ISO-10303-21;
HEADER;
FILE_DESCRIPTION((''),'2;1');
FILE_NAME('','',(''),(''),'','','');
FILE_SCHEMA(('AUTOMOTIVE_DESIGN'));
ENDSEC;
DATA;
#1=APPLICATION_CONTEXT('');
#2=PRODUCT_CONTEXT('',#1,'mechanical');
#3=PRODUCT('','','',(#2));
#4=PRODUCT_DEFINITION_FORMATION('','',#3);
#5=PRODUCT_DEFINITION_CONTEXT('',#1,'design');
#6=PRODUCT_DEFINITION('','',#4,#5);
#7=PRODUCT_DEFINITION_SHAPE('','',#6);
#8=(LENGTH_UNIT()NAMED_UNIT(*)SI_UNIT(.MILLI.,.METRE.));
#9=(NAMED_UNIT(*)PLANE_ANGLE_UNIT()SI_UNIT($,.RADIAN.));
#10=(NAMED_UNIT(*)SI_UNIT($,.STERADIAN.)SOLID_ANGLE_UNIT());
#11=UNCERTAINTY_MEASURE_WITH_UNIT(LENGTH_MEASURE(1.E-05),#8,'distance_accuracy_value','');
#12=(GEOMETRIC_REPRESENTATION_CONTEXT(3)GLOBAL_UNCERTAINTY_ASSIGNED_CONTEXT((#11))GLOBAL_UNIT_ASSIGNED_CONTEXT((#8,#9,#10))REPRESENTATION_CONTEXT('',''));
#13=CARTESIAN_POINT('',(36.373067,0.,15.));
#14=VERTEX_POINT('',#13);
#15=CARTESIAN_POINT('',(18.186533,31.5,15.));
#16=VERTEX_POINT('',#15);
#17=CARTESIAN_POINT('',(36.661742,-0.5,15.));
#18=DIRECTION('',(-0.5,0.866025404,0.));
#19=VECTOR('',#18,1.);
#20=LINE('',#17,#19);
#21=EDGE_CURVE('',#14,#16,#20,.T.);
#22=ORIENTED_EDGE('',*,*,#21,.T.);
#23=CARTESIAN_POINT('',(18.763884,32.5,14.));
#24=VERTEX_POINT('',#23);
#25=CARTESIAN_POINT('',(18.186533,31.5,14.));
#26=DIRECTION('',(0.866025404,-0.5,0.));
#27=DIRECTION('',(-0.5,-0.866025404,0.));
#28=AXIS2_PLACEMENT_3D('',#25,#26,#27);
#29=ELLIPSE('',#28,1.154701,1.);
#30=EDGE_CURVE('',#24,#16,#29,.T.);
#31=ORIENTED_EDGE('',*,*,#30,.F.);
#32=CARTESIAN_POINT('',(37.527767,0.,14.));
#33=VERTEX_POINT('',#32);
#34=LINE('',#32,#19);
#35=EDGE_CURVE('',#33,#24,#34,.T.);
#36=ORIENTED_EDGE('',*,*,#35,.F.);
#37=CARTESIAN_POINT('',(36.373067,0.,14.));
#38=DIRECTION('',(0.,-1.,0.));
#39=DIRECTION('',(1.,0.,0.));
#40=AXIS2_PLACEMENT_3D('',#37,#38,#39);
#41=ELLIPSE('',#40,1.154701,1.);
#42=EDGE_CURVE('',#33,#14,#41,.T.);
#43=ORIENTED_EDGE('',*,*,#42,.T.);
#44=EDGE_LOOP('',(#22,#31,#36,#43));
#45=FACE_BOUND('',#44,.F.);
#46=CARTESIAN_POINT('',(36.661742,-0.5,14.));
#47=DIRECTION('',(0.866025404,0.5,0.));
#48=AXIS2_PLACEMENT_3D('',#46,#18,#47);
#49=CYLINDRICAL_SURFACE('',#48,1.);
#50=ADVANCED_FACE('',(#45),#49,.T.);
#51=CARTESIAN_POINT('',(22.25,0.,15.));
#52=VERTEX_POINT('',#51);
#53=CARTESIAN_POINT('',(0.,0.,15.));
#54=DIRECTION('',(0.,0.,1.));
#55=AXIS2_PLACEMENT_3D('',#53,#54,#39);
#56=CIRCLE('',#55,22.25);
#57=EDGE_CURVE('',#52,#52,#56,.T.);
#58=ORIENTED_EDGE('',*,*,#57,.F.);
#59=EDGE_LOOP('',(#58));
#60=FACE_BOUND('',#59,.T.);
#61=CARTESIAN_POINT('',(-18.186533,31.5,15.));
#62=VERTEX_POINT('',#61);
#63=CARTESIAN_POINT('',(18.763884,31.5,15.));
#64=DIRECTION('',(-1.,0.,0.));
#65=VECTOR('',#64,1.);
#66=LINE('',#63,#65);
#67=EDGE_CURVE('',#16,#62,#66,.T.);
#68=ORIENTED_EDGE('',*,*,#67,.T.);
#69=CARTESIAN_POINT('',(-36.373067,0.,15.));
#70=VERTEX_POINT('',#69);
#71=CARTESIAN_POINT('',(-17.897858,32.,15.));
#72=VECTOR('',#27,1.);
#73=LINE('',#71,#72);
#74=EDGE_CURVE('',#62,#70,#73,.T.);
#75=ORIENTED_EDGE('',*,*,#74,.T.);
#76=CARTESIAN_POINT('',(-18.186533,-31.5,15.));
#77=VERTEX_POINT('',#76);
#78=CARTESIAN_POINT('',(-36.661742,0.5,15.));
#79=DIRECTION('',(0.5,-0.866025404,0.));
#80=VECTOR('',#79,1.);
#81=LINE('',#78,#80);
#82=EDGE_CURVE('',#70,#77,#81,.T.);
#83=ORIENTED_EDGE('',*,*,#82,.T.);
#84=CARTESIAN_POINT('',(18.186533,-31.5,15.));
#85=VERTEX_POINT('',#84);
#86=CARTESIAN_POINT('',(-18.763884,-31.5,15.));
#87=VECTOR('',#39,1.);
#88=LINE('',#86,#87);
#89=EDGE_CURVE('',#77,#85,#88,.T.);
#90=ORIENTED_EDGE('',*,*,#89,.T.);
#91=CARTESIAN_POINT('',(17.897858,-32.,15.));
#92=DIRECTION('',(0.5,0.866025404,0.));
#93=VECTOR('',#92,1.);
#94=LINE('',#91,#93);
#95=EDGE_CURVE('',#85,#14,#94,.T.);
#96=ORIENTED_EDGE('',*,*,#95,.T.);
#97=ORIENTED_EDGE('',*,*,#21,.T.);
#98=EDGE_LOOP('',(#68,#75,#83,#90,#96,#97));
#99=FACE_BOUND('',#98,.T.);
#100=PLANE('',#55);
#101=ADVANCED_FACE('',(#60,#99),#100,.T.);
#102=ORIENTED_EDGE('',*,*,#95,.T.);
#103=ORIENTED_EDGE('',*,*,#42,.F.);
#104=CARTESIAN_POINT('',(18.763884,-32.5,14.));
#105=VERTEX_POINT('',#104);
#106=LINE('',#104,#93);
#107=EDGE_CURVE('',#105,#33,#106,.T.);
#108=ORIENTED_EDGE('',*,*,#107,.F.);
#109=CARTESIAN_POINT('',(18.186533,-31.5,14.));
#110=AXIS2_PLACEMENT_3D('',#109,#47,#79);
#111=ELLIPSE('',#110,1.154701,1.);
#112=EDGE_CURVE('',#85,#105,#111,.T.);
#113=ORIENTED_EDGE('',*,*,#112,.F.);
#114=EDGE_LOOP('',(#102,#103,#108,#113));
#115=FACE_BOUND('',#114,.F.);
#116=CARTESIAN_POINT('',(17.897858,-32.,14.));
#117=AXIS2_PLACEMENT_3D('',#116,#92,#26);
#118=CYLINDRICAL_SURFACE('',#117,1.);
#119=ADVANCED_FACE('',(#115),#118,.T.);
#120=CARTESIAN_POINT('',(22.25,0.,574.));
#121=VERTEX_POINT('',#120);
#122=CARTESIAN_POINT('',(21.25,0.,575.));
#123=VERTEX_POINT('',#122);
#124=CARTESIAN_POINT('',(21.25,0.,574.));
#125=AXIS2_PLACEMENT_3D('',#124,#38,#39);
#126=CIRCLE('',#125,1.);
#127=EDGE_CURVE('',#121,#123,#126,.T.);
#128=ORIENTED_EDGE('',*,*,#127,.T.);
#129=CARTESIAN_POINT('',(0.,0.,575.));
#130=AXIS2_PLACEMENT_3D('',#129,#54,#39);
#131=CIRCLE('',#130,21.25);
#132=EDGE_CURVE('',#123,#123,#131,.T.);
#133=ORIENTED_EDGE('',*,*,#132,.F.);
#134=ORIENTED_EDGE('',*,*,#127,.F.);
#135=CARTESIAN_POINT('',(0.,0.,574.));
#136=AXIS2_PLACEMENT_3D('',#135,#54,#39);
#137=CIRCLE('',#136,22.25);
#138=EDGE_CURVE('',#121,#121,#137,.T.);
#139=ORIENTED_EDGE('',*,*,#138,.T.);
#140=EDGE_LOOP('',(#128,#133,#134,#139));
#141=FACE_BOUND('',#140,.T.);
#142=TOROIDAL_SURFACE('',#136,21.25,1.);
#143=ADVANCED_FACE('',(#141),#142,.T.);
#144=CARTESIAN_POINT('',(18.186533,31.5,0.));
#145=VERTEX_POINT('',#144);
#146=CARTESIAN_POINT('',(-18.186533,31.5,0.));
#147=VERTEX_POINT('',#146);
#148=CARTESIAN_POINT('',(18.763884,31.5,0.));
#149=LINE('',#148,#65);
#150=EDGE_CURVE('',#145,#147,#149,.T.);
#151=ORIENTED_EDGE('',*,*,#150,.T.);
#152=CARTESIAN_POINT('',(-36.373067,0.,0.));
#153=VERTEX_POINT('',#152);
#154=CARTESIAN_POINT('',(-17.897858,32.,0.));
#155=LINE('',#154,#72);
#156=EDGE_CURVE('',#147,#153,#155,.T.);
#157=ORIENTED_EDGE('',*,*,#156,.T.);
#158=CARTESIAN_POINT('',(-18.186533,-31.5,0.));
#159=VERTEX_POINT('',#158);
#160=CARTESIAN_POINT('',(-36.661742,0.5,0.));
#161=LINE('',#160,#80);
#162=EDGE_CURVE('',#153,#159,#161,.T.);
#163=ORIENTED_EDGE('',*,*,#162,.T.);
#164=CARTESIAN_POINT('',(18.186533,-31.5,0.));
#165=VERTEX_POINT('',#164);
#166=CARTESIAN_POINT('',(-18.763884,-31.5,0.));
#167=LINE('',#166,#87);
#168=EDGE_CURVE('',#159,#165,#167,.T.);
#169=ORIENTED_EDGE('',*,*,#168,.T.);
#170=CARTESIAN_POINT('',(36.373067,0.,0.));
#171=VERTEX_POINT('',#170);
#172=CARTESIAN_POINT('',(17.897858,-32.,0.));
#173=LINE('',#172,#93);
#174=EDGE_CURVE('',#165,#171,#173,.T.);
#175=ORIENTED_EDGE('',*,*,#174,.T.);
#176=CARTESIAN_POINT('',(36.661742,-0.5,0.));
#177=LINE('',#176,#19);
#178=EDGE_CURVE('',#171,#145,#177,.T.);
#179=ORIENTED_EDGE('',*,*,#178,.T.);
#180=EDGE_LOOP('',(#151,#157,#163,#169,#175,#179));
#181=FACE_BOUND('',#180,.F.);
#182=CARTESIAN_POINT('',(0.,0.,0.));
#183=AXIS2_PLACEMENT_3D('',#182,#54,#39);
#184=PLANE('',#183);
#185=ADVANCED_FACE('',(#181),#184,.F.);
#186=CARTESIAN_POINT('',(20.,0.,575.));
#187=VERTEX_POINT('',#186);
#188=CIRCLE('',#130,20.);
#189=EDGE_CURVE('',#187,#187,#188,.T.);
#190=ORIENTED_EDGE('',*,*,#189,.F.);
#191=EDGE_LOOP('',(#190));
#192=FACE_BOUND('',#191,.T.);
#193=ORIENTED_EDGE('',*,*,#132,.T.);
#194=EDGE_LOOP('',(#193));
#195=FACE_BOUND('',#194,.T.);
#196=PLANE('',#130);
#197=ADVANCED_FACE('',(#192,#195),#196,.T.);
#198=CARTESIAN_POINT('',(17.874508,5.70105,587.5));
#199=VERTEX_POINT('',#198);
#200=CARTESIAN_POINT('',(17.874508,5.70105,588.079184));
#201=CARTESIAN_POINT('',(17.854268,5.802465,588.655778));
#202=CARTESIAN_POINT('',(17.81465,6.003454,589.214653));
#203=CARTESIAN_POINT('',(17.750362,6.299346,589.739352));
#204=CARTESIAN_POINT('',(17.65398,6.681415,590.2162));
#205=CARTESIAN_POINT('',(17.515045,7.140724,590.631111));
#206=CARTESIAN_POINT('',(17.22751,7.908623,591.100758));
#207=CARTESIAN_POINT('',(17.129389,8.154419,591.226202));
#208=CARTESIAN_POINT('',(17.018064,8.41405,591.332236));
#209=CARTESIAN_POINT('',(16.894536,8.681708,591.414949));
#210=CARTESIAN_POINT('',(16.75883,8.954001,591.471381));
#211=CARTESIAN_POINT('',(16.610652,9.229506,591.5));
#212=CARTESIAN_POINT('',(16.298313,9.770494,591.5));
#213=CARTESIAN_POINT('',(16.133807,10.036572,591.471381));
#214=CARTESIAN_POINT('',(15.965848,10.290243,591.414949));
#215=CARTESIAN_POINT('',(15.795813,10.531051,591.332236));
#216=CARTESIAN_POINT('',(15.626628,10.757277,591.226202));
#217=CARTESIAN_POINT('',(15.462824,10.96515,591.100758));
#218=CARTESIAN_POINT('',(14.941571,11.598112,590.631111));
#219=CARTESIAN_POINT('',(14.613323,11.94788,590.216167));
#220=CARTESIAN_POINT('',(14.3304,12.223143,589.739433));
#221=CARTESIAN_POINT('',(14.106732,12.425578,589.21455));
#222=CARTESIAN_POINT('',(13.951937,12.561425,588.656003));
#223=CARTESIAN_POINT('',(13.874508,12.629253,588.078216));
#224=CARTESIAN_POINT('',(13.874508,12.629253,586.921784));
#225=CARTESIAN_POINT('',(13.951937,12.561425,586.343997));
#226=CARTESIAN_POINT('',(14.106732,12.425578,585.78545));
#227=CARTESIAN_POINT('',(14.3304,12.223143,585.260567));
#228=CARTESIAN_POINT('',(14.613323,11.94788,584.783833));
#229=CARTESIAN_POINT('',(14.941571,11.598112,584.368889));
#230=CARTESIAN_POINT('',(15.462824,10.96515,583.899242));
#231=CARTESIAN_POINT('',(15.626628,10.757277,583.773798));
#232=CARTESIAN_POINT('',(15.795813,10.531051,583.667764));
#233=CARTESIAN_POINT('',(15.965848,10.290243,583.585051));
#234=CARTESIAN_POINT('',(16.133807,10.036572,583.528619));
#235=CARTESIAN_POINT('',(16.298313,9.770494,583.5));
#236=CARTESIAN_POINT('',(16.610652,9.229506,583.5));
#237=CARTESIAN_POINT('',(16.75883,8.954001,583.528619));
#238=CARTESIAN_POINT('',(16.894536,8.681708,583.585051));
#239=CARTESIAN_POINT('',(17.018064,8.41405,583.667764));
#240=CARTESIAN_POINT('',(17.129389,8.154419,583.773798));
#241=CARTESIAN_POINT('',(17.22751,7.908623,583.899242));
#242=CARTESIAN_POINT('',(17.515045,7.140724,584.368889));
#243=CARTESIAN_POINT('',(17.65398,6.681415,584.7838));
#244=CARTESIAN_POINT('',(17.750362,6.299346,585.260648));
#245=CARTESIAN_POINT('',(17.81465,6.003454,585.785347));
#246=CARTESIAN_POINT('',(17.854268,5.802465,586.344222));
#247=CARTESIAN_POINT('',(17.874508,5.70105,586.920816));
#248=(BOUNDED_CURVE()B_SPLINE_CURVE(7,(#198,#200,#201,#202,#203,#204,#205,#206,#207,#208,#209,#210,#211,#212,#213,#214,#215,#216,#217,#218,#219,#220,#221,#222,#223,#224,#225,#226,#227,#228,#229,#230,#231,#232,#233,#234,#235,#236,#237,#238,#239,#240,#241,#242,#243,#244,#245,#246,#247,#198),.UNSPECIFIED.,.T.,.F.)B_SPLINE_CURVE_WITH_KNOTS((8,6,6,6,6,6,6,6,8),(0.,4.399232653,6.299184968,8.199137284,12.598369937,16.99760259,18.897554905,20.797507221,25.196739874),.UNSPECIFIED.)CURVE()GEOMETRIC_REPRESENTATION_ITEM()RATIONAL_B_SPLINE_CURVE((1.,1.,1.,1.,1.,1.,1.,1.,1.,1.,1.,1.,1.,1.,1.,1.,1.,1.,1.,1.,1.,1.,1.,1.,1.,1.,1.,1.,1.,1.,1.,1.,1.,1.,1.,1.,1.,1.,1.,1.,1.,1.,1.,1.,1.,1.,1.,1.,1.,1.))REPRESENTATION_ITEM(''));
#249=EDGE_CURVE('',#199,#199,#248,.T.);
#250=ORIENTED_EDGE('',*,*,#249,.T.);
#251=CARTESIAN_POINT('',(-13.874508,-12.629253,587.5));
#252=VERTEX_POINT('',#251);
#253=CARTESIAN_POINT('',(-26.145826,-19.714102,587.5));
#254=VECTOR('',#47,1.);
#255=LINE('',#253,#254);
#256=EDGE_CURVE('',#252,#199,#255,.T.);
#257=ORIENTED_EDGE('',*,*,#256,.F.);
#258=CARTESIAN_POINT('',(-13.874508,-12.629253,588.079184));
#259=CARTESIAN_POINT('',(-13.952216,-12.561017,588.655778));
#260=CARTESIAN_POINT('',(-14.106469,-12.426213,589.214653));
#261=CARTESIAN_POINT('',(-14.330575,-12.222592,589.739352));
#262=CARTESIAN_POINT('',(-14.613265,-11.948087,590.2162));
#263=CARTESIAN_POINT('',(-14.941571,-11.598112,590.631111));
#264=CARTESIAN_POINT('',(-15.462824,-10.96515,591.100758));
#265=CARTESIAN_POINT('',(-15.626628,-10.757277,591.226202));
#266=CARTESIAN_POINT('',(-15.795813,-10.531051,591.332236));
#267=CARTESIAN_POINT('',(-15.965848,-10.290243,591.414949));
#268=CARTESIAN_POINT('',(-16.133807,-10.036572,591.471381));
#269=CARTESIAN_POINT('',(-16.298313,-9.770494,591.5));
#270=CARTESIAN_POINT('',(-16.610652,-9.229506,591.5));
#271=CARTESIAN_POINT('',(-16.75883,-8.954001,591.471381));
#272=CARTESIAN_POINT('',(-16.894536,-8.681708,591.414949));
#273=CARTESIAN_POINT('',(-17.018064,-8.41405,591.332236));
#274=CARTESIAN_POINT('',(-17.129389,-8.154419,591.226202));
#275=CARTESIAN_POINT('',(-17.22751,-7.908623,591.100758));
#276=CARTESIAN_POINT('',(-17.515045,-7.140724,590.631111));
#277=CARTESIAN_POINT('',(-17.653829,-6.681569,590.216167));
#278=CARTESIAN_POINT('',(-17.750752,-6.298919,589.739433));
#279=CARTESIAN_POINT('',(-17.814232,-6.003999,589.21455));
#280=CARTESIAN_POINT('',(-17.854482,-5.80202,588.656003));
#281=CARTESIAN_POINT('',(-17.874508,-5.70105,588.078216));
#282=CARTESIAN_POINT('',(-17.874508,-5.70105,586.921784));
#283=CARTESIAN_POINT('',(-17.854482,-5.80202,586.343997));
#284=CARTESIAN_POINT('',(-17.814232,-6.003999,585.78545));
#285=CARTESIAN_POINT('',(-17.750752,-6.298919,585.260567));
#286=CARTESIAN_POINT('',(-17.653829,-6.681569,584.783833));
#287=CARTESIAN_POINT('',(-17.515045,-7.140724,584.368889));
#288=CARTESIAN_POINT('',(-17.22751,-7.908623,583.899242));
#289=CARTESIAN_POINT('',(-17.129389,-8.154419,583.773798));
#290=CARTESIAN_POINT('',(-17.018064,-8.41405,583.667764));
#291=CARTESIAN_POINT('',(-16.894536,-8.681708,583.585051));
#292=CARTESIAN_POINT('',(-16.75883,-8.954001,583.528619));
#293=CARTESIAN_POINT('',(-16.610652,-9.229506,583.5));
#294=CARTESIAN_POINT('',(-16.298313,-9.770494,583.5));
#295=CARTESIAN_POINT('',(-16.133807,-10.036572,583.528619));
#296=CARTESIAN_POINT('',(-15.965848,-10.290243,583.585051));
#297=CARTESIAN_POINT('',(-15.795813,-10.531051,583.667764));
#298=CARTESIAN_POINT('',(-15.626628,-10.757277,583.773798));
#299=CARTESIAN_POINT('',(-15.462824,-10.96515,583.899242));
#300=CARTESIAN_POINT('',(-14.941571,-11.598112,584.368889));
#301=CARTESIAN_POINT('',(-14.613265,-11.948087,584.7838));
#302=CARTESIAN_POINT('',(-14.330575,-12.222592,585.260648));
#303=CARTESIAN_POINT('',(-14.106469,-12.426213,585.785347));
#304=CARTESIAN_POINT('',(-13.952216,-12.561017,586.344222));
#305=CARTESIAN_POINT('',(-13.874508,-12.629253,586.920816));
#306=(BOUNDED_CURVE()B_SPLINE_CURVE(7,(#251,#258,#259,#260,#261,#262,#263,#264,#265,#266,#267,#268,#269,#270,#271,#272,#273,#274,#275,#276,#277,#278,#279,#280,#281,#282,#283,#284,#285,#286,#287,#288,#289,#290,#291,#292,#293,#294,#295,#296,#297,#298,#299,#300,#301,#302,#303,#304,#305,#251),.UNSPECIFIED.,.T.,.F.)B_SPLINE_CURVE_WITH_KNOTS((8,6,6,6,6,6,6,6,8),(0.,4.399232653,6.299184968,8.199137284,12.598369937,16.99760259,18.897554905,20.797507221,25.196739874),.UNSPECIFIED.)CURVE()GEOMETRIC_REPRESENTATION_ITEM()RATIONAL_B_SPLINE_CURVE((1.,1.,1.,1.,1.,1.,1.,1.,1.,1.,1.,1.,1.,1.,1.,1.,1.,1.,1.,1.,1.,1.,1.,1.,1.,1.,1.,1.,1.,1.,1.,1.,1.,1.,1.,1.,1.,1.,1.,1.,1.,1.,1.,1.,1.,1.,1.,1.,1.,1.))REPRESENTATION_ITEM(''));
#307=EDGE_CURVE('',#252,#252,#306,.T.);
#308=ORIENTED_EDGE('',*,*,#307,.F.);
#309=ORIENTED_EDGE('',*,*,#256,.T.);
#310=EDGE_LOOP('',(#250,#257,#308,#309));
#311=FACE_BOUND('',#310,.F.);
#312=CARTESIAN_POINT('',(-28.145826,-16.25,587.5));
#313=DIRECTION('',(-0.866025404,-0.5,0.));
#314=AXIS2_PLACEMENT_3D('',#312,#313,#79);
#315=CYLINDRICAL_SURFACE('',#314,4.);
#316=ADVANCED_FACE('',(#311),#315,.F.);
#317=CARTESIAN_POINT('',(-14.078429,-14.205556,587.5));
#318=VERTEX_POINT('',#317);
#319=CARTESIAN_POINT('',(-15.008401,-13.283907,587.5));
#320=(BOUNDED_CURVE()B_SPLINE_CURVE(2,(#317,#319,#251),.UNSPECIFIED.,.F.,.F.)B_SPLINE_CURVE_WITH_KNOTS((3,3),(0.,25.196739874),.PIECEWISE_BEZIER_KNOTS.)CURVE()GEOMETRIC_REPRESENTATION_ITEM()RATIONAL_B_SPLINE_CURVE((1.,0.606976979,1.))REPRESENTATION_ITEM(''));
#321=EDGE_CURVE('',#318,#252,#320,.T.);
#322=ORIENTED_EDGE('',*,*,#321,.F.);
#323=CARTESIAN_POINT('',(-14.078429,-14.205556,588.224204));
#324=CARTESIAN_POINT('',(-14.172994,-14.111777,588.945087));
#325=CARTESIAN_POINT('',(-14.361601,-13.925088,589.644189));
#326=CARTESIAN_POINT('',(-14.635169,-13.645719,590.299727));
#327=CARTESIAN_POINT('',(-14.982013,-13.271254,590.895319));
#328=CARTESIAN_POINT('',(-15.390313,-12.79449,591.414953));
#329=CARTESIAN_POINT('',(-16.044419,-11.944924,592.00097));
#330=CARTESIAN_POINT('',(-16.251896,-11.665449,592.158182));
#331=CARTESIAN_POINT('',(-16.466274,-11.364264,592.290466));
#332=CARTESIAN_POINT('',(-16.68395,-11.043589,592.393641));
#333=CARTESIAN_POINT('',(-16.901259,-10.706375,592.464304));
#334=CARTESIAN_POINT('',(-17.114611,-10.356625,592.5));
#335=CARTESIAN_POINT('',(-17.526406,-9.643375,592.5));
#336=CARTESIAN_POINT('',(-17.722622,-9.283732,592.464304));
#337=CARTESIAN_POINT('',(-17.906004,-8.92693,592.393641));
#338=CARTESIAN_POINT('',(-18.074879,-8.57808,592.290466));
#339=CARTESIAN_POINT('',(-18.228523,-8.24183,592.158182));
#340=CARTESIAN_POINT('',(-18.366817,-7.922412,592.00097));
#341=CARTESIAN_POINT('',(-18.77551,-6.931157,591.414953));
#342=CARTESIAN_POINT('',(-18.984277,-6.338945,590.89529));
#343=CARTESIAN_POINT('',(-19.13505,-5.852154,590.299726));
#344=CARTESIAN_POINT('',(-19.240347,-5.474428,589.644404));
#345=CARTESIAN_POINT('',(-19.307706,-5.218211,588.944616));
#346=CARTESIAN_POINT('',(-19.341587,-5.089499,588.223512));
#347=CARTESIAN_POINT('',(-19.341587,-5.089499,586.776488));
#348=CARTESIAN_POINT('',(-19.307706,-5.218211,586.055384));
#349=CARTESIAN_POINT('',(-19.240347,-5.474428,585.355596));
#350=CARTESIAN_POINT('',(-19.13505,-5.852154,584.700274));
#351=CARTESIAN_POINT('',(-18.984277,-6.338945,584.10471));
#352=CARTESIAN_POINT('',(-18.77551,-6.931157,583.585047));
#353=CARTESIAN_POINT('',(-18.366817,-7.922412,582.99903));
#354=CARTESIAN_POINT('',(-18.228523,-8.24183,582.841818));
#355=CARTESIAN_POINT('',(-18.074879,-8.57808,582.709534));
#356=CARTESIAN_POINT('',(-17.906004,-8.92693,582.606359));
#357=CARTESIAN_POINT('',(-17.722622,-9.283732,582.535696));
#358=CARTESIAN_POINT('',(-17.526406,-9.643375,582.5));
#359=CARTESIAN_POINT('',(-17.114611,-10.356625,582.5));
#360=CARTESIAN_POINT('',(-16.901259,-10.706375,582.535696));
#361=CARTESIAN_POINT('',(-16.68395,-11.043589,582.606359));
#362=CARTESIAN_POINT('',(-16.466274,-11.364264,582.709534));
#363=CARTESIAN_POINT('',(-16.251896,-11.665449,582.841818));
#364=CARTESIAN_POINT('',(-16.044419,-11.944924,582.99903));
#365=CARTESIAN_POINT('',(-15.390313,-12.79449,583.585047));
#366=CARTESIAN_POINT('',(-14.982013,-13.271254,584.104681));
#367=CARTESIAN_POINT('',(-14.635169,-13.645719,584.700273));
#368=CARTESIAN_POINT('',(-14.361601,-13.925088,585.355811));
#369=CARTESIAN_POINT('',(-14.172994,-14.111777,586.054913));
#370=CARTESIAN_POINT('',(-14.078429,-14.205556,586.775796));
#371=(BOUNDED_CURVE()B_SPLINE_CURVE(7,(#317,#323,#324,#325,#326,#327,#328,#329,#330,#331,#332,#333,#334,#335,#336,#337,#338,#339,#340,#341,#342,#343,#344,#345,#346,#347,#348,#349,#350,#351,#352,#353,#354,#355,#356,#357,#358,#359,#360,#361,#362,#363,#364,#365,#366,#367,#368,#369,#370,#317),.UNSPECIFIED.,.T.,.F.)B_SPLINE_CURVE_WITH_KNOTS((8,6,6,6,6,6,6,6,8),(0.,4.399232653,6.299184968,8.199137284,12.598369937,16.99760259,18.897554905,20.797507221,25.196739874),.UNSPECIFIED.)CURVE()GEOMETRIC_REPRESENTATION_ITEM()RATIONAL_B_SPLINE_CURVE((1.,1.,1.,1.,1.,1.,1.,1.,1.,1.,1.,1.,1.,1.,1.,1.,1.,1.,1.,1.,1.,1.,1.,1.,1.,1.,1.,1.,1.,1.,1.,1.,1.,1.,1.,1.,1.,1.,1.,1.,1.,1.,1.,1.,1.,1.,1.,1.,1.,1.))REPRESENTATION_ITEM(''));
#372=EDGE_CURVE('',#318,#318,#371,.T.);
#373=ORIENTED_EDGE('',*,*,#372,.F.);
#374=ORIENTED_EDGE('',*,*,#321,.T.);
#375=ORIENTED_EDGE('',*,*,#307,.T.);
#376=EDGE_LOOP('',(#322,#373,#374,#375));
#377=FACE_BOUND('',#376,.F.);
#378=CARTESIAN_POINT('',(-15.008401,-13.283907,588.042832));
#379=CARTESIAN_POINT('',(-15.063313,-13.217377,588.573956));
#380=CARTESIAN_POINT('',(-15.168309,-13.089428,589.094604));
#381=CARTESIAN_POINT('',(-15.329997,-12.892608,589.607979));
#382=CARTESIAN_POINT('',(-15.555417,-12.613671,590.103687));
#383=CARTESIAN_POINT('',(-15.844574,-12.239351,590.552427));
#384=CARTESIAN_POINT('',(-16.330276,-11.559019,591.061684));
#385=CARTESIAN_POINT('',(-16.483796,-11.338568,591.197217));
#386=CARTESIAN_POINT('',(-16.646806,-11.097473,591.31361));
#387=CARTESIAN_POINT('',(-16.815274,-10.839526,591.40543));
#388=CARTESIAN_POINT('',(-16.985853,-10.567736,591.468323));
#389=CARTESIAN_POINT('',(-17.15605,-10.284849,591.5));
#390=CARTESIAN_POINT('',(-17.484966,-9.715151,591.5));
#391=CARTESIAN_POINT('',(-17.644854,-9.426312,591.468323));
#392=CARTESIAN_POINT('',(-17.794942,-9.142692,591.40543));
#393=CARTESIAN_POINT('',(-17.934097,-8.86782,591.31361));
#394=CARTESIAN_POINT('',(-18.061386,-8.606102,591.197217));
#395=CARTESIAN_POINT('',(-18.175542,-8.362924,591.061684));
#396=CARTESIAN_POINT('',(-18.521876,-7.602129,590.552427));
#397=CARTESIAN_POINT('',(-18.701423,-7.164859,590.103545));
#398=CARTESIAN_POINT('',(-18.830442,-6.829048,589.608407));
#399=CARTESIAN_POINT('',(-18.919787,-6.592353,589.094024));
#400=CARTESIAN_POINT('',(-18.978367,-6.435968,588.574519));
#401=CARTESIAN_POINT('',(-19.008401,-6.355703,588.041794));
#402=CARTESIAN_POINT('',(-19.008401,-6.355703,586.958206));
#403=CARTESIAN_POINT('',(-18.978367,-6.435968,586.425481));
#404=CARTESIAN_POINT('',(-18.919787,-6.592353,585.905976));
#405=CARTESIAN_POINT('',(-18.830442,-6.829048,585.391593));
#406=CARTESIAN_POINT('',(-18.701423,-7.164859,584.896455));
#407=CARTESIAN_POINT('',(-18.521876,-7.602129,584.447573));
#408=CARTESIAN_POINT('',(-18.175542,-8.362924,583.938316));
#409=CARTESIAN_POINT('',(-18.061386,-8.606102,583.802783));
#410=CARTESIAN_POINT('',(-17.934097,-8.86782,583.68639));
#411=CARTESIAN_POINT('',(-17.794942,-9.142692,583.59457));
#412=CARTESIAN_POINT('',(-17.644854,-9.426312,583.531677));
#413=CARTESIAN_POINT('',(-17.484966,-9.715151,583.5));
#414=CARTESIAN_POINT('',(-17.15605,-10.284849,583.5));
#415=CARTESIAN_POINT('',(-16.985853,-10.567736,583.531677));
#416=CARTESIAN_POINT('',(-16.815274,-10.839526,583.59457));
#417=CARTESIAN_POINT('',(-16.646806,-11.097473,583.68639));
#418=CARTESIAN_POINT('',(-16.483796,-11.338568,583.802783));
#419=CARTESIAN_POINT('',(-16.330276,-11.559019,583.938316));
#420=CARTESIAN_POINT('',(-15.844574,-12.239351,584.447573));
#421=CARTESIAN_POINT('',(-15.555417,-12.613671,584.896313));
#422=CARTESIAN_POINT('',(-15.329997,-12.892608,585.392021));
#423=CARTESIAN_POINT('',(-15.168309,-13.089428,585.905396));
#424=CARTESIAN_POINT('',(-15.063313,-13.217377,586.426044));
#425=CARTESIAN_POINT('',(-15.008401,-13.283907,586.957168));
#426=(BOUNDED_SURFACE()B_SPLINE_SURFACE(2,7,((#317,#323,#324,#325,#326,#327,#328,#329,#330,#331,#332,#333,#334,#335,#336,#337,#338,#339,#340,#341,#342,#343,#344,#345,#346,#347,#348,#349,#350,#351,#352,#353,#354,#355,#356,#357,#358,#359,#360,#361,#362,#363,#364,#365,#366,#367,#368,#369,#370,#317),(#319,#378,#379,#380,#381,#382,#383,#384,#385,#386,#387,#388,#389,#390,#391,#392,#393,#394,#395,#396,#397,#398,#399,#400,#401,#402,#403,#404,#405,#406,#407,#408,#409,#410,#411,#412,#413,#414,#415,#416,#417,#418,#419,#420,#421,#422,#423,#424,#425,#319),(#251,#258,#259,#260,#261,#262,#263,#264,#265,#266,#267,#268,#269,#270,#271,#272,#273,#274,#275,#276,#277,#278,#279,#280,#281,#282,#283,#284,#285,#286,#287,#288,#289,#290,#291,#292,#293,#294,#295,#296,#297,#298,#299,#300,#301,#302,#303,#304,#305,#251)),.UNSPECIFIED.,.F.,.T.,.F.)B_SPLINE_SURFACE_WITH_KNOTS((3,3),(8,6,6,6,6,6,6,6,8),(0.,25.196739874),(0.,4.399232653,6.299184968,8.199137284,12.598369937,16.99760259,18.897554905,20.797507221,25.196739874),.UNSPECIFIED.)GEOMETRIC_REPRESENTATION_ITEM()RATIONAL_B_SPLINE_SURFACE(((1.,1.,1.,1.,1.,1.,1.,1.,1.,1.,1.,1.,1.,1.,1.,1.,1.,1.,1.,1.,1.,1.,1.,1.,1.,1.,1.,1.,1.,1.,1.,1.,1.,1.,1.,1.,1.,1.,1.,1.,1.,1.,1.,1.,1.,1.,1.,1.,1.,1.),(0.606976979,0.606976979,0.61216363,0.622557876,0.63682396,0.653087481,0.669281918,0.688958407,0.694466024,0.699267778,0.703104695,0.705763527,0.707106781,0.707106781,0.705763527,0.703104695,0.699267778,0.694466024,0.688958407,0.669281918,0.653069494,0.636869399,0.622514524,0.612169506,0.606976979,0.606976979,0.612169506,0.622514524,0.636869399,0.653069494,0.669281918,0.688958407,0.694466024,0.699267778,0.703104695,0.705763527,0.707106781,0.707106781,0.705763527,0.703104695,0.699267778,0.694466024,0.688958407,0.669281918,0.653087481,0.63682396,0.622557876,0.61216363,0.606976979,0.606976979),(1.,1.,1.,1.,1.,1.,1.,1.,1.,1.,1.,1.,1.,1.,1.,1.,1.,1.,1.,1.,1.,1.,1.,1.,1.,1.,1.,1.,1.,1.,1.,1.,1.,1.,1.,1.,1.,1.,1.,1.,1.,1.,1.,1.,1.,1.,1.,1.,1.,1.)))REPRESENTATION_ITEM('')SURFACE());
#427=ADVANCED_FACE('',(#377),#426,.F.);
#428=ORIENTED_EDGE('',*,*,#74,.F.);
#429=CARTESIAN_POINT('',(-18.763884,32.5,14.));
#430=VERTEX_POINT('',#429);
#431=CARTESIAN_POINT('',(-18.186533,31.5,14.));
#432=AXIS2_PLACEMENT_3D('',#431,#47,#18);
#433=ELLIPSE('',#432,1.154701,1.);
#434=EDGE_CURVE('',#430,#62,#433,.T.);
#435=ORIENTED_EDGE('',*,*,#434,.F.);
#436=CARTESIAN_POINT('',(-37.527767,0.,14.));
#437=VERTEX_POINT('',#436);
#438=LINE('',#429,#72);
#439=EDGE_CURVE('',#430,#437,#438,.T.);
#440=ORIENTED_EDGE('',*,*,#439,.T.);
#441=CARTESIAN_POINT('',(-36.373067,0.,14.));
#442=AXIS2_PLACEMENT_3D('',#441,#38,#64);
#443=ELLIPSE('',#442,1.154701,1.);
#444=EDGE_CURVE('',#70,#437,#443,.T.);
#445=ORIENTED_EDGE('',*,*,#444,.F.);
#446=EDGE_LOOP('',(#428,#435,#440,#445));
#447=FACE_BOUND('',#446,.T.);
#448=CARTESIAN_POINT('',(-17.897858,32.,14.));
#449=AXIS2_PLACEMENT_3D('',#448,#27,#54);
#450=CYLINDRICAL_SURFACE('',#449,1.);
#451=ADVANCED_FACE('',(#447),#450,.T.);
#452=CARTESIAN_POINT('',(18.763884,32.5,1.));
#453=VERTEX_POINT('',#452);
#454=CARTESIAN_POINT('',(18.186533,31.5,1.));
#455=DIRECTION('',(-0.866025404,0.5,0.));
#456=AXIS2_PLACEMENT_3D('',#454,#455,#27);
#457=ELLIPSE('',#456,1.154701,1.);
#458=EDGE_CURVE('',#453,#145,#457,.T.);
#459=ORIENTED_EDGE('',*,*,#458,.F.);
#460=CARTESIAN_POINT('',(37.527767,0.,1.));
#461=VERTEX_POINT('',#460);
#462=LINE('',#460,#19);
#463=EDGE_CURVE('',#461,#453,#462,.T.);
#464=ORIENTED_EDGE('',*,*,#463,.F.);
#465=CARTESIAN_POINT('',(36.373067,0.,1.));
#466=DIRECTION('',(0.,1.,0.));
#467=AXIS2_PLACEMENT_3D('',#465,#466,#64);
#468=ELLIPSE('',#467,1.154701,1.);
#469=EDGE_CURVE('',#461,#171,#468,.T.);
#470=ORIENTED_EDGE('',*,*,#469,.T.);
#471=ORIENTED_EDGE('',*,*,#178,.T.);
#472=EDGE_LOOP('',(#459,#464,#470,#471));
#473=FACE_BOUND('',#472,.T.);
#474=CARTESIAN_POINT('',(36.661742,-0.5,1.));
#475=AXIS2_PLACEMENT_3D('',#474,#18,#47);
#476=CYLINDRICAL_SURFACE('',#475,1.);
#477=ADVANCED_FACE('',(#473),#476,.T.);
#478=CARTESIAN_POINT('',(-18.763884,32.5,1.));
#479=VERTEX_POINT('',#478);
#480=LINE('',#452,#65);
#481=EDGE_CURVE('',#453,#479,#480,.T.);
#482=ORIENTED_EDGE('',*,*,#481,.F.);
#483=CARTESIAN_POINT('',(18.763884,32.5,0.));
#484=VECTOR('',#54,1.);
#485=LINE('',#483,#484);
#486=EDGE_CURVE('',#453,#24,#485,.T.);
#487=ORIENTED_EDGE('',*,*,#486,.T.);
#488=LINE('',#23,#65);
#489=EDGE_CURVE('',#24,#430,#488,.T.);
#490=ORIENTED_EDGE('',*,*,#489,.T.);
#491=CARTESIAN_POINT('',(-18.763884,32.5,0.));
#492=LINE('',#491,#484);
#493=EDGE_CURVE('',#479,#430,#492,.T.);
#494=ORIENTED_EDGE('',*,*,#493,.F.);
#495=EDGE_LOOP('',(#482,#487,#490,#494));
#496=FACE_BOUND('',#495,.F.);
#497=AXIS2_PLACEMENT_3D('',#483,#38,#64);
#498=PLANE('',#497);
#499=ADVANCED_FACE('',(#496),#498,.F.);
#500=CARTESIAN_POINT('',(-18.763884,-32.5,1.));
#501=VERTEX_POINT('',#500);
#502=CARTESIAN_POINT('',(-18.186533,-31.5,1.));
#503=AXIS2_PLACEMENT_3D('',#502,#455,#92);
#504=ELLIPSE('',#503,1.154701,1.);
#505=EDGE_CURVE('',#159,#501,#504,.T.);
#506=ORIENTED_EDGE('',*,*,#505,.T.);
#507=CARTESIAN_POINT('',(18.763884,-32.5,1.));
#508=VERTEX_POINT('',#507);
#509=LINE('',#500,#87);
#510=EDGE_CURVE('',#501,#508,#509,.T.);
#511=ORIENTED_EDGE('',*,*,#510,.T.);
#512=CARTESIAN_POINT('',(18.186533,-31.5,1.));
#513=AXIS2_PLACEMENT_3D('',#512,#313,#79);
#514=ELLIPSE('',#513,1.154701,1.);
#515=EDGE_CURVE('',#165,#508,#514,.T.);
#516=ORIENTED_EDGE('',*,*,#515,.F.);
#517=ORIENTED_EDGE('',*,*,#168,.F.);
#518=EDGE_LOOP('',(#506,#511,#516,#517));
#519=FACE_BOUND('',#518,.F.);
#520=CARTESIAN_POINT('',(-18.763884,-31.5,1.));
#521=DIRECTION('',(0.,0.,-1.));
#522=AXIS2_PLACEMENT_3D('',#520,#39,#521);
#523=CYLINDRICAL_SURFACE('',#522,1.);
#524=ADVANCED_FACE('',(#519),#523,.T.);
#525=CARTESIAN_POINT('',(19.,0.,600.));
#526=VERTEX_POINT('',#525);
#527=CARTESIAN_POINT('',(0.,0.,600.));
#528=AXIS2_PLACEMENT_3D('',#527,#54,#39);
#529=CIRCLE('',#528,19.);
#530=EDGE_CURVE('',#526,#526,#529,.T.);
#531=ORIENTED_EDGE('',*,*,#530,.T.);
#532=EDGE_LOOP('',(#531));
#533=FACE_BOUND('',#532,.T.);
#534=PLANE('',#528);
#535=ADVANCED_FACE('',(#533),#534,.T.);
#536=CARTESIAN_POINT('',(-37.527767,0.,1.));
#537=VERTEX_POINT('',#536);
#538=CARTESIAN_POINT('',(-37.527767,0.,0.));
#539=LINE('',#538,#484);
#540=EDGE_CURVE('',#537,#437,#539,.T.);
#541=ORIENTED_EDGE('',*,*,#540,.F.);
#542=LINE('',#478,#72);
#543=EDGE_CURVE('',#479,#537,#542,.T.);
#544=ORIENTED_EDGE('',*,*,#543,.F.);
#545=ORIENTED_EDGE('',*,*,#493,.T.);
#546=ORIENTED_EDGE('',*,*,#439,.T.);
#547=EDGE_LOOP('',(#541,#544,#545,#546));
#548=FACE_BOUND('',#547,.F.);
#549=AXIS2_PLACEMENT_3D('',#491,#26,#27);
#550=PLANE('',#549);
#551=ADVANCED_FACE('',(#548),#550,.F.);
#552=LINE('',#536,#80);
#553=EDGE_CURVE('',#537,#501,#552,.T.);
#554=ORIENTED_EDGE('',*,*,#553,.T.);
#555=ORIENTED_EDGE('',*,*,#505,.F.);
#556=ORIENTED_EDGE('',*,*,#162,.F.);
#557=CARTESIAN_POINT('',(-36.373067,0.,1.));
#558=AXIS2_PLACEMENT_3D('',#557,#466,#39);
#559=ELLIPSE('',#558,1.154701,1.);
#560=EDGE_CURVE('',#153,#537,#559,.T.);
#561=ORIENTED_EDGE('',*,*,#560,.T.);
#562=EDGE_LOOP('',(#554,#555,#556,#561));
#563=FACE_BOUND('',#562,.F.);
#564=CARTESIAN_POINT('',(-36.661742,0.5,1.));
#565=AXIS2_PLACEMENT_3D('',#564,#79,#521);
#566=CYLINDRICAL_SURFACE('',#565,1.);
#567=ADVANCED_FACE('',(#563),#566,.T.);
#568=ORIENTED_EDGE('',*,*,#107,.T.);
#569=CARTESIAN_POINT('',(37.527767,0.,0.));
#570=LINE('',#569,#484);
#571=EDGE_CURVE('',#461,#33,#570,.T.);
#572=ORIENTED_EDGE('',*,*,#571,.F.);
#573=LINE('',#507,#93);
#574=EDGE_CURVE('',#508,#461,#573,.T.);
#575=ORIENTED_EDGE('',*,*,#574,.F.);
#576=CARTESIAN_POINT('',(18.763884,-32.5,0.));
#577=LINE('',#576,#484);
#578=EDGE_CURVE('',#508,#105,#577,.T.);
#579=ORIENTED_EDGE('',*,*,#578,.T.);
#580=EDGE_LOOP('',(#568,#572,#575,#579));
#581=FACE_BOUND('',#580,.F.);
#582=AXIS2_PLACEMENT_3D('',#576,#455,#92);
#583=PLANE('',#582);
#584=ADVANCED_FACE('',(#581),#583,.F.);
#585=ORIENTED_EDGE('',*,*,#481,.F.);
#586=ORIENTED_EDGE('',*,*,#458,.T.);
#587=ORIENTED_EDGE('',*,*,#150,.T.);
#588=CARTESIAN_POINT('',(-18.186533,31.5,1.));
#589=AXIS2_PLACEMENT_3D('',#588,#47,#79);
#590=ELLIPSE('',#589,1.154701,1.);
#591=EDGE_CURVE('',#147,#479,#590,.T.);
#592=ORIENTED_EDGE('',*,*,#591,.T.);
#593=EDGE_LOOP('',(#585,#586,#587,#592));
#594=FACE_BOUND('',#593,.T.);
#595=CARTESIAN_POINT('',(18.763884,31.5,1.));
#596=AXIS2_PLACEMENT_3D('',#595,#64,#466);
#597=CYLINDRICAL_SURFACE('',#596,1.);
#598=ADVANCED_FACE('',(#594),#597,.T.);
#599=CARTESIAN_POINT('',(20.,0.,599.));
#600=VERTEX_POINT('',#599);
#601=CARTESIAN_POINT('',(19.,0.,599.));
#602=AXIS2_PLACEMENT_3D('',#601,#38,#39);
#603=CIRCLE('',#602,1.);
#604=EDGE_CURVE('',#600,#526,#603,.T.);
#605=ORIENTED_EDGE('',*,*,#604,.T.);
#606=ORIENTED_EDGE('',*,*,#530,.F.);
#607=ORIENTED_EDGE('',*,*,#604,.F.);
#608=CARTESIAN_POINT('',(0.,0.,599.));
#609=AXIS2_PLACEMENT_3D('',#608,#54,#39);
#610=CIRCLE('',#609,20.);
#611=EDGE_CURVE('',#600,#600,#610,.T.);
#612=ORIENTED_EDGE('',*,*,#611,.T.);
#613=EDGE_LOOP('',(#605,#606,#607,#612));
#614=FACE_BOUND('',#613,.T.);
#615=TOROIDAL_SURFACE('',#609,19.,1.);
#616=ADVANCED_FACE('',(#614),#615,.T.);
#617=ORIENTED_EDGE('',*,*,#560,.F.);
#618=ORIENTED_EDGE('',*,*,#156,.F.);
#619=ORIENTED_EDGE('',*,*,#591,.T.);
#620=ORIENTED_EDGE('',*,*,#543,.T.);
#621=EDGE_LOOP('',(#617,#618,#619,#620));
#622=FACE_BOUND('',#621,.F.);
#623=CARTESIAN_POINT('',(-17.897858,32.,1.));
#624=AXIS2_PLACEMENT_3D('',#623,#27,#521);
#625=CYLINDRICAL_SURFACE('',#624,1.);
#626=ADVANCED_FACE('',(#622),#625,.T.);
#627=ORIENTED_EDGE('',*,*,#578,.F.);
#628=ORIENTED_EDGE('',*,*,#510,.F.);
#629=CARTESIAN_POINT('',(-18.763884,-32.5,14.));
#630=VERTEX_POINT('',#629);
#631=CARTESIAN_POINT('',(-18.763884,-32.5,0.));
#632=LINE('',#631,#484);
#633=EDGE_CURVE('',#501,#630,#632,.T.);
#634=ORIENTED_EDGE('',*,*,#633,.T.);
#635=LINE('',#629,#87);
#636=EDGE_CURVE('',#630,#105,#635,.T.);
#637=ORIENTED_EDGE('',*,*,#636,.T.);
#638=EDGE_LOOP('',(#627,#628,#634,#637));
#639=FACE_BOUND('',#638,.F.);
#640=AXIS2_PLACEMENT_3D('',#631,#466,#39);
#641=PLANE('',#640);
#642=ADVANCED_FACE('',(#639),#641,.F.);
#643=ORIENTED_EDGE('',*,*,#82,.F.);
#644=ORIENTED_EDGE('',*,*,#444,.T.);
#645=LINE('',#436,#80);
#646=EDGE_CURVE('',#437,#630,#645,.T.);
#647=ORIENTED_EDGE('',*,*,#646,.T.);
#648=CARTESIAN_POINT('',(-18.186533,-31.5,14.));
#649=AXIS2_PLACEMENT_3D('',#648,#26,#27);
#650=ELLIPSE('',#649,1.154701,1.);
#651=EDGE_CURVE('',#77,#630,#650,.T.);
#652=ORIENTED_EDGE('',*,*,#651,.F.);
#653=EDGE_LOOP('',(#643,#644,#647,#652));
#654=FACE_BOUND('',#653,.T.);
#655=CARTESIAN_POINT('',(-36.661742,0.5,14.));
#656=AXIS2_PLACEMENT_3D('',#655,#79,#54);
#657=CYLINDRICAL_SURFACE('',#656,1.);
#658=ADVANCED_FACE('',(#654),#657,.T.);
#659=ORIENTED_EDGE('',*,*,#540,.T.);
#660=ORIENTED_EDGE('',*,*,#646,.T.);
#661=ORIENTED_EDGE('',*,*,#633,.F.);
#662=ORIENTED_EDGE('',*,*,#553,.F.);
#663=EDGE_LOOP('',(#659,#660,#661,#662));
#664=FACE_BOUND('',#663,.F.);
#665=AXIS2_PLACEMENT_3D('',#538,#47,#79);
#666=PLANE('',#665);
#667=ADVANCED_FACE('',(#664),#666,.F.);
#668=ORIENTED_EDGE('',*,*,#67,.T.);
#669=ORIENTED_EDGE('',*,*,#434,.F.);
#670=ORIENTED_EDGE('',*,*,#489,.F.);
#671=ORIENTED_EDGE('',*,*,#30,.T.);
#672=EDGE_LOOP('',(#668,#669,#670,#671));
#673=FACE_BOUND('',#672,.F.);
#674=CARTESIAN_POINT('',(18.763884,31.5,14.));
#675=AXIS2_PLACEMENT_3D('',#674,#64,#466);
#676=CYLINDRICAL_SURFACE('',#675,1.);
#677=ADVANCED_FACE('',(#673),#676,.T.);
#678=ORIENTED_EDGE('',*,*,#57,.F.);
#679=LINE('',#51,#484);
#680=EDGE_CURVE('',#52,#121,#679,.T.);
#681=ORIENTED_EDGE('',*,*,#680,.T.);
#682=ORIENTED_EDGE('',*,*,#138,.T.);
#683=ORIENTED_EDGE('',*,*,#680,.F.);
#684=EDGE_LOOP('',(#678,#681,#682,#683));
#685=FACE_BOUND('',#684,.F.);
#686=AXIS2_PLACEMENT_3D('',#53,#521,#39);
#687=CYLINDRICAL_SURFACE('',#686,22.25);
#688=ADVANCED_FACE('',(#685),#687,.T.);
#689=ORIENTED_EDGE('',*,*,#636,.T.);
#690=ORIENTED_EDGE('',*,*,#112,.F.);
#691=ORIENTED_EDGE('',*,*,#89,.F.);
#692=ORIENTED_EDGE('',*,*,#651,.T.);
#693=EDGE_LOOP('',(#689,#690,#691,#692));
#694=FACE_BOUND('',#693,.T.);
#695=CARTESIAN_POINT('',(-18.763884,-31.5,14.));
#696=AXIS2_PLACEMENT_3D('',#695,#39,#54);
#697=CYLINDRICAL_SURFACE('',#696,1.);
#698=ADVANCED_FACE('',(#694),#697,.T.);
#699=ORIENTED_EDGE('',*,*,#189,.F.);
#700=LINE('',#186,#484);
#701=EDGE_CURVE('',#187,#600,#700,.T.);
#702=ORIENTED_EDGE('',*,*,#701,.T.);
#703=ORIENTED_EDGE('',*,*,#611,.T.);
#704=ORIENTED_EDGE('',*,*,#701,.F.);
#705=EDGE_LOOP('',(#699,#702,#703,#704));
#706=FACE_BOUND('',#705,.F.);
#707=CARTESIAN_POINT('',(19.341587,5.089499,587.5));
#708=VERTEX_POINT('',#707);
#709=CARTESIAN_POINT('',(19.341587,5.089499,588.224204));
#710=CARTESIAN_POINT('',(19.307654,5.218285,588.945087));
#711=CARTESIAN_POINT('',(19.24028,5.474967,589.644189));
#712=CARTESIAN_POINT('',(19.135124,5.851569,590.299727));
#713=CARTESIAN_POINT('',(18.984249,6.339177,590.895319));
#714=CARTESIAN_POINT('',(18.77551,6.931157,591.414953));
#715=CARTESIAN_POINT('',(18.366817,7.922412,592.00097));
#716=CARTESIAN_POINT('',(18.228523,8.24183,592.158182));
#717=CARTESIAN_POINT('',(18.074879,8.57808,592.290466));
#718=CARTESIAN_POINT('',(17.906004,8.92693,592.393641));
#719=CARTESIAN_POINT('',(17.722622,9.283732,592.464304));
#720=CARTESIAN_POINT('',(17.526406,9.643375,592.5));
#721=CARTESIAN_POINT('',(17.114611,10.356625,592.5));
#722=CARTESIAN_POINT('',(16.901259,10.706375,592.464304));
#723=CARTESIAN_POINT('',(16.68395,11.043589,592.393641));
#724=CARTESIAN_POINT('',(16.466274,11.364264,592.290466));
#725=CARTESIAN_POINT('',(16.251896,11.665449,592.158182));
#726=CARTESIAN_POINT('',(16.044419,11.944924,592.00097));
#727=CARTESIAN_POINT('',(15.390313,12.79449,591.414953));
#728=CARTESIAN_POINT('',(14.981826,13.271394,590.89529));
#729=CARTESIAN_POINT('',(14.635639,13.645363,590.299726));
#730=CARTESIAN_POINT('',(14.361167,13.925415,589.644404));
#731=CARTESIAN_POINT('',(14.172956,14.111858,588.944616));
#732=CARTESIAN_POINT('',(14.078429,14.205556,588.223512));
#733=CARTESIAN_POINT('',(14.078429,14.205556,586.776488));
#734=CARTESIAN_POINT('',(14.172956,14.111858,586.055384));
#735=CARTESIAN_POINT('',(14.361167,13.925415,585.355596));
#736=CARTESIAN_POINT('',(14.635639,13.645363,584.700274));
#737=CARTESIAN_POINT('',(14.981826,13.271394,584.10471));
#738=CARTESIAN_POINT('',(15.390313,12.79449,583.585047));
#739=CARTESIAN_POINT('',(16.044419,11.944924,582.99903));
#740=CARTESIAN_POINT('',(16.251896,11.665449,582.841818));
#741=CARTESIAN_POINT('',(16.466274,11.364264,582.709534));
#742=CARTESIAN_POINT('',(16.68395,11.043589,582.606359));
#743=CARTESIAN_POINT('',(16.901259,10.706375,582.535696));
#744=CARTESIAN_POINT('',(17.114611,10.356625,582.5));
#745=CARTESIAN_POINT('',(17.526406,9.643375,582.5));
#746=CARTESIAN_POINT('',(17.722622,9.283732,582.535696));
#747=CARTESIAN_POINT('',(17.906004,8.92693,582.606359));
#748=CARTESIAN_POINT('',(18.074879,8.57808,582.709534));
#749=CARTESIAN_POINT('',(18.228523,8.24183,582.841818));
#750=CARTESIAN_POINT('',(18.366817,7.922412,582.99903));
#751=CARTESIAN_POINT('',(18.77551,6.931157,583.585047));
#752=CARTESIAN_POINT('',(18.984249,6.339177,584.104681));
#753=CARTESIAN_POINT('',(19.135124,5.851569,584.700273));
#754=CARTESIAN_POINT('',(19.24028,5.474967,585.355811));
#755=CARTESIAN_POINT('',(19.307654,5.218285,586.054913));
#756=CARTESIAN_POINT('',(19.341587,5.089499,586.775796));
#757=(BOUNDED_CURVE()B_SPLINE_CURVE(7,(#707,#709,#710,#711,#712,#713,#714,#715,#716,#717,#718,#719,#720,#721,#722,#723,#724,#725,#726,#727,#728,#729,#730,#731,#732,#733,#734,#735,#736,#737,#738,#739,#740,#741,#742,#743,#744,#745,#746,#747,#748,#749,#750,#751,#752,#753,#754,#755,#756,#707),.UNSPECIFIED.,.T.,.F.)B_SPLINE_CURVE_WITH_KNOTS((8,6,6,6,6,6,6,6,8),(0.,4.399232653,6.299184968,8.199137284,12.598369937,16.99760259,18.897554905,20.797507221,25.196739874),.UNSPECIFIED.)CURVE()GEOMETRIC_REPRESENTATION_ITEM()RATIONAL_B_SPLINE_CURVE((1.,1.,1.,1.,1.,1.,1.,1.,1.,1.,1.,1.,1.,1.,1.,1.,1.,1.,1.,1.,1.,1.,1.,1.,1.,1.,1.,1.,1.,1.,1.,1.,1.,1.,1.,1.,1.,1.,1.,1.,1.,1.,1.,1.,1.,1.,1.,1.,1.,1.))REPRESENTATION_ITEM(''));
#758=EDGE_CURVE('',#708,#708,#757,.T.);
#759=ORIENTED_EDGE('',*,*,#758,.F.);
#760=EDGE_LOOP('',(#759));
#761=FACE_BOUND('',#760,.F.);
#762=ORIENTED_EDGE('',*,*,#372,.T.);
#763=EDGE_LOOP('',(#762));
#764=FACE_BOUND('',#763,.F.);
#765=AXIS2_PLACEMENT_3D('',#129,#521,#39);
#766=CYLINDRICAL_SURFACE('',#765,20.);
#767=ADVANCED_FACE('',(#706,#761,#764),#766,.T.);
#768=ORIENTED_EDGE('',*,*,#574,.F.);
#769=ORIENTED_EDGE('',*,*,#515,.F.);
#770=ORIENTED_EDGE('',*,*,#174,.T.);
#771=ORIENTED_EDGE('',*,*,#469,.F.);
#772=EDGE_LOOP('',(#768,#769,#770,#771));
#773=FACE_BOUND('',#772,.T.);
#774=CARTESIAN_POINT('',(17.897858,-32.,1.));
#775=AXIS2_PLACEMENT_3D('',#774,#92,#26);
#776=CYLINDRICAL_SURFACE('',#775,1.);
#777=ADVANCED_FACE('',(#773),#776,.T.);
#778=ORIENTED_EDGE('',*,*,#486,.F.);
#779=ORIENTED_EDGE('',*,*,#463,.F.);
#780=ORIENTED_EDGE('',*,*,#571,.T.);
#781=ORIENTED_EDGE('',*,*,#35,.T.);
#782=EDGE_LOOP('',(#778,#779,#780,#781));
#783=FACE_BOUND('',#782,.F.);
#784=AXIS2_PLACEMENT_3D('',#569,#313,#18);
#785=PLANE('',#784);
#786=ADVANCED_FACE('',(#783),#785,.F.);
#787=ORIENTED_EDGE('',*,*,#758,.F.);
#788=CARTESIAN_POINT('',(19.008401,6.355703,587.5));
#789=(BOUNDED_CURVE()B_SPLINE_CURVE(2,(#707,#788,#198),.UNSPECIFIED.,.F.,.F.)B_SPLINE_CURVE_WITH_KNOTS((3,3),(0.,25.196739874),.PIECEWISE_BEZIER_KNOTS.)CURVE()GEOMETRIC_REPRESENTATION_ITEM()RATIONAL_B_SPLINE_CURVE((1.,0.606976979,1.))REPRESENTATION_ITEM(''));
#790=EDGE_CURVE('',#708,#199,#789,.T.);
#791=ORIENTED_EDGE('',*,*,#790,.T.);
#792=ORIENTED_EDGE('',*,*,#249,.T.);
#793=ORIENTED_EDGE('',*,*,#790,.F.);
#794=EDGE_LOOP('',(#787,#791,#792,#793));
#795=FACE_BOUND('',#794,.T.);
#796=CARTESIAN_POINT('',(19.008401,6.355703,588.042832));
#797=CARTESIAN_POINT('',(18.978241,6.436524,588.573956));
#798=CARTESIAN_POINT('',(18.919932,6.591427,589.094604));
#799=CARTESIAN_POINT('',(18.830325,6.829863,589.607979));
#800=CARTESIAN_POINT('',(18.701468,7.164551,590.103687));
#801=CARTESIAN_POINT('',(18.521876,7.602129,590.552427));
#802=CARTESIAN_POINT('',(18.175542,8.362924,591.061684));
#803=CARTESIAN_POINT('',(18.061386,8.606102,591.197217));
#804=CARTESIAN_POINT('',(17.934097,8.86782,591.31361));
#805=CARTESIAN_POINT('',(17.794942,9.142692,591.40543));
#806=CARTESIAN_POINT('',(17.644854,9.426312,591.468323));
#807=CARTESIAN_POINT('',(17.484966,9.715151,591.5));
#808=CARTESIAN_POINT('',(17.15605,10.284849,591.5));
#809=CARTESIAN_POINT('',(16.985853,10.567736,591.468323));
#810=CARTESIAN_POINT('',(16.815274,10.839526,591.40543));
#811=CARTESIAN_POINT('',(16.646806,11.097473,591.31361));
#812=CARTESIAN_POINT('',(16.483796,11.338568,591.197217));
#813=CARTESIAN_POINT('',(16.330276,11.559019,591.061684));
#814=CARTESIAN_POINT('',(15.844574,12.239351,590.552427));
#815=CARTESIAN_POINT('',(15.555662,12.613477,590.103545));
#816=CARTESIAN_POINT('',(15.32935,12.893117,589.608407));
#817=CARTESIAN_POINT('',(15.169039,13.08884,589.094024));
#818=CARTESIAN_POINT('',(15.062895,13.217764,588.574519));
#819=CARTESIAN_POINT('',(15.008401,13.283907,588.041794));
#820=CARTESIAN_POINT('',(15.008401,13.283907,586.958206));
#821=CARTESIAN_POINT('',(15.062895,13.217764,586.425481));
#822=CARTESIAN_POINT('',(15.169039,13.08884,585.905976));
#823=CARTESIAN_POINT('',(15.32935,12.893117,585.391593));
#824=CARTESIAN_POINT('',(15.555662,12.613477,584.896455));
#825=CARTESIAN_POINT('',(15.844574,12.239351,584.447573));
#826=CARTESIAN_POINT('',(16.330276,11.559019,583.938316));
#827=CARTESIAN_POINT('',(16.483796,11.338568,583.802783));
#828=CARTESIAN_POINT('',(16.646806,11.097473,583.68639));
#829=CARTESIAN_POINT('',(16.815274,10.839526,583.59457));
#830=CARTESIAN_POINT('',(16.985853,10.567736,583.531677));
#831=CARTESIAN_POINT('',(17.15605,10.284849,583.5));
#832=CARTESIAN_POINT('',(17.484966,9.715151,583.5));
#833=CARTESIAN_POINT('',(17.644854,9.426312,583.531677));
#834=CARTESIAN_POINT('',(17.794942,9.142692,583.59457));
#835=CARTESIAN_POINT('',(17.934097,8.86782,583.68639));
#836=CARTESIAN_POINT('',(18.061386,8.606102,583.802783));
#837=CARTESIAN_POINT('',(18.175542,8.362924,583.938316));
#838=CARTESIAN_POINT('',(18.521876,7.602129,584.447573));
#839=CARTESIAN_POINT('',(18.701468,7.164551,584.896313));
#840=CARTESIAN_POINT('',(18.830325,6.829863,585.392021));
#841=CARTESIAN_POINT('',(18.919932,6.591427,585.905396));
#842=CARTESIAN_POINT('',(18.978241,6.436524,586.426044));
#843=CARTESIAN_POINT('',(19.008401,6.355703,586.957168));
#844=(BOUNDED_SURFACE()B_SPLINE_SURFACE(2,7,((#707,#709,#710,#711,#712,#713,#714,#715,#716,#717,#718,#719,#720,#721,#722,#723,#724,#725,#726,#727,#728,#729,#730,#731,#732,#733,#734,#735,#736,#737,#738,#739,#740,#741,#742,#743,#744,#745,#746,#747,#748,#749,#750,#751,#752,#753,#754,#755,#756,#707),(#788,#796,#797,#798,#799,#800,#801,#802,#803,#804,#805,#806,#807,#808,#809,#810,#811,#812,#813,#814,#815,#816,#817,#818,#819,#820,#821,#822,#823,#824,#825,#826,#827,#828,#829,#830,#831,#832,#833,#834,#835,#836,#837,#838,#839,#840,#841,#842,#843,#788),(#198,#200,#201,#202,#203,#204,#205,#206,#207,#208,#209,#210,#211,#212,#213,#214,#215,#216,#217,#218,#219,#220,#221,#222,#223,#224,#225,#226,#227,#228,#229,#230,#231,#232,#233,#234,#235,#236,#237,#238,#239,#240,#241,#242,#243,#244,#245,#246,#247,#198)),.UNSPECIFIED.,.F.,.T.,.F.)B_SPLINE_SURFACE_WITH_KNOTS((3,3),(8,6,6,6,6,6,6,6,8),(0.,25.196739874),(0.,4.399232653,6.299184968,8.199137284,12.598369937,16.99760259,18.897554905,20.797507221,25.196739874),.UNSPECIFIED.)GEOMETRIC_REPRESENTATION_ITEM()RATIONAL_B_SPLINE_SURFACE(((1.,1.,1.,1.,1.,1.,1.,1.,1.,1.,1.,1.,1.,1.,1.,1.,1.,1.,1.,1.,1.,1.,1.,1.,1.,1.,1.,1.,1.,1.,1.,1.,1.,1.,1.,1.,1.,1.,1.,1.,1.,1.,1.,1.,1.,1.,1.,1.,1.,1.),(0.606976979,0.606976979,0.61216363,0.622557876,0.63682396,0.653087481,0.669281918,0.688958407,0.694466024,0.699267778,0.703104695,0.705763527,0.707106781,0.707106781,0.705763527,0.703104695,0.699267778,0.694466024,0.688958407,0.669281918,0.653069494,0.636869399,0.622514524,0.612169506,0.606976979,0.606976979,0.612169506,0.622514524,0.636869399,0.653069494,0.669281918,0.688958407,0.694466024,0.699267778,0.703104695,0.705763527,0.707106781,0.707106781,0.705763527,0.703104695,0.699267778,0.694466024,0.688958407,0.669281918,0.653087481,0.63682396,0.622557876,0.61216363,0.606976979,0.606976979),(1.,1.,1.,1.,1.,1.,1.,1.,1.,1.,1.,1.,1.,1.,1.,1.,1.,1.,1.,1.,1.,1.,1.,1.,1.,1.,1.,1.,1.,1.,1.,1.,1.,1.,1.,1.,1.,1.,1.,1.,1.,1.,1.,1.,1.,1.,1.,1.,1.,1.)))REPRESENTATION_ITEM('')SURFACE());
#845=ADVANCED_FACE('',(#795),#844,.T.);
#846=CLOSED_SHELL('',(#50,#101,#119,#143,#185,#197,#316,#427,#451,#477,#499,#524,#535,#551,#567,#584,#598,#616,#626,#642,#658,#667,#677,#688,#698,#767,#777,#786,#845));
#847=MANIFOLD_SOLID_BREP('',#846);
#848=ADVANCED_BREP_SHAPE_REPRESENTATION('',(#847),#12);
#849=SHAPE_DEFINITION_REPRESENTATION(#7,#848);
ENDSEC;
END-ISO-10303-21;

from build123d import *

# Parameters (mm, degrees)
EXTRUDE_1_DEPTH     = 15
SKETCH_2_R          = 22.25
EXTRUDE_2_DEPTH     = 560
SKETCH_3_R          = 20
EXTRUDE_3_DEPTH     = 25
SKETCH_4_R          = 4
CUT_EXTRUDE_4_DEPTH = 606.548993339
FILLET_1_R          = 1


with BuildPart() as part:
    # 草图1 → 拉伸1 (new body)
    with BuildSketch(Plane.XY):
        Polygon((37.527767497, 0), (18.763883749, 32.5), (-18.763883749, 32.5), (-37.527767497, 0), (-18.763883749, -32.5), (18.763883749, -32.5), align=None)
    extrude(amount=EXTRUDE_1_DEPTH)

    # 草图2 → 拉伸2 (add)
    with BuildSketch(Plane.XY.offset(15)):
        Circle(SKETCH_2_R)
    extrude(amount=EXTRUDE_2_DEPTH)

    # 草图3 → 拉伸3 (add)
    with BuildSketch(Plane.XY.offset(575)):
        Circle(SKETCH_3_R)
    extrude(amount=EXTRUDE_3_DEPTH)

    # 草图4 → 拉伸4 (cut, through all)
    with BuildSketch(Plane(origin=(-28.145825623, -16.25, 0), x_dir=(0, 0, 1), z_dir=(-0.8660254037844388, -0.4999999999999997, 0))):
        with Locations(Location((587.5, 0, 0), (0, 0, 270))):
            Circle(SKETCH_4_R)
    extrude(amount=-CUT_EXTRUDE_4_DEPTH, mode=Mode.SUBTRACT)

    # 圆角1
    fillet_1_edges = [part.edges().sort_by_distance(p)[0] for p in [
        (0, 32.5, 15),
        (-28.145825623, 16.25, 15),
        (-28.145825623, -16.25, 15),
        (0, -32.5, 15),
        (-22.25, 0, 575),
        (-20, 0, 600),
        (-18.970562748, -6.333857356, 587.5),
        (14.970562748, 13.262060586, 587.5),
        (28.145825623, -16.25, 15),
        (0, -32.5, 0),
        (-28.145825623, -16.25, 0),
        (-28.145825623, 16.25, 0),
        (28.145825623, 16.25, 15),
        (0, 32.5, 0),
        (28.145825623, 16.25, 0),
        (28.145825623, -16.25, 0),
    ]]
    fillet(fillet_1_edges, radius=FILLET_1_R)


solid = part.part
